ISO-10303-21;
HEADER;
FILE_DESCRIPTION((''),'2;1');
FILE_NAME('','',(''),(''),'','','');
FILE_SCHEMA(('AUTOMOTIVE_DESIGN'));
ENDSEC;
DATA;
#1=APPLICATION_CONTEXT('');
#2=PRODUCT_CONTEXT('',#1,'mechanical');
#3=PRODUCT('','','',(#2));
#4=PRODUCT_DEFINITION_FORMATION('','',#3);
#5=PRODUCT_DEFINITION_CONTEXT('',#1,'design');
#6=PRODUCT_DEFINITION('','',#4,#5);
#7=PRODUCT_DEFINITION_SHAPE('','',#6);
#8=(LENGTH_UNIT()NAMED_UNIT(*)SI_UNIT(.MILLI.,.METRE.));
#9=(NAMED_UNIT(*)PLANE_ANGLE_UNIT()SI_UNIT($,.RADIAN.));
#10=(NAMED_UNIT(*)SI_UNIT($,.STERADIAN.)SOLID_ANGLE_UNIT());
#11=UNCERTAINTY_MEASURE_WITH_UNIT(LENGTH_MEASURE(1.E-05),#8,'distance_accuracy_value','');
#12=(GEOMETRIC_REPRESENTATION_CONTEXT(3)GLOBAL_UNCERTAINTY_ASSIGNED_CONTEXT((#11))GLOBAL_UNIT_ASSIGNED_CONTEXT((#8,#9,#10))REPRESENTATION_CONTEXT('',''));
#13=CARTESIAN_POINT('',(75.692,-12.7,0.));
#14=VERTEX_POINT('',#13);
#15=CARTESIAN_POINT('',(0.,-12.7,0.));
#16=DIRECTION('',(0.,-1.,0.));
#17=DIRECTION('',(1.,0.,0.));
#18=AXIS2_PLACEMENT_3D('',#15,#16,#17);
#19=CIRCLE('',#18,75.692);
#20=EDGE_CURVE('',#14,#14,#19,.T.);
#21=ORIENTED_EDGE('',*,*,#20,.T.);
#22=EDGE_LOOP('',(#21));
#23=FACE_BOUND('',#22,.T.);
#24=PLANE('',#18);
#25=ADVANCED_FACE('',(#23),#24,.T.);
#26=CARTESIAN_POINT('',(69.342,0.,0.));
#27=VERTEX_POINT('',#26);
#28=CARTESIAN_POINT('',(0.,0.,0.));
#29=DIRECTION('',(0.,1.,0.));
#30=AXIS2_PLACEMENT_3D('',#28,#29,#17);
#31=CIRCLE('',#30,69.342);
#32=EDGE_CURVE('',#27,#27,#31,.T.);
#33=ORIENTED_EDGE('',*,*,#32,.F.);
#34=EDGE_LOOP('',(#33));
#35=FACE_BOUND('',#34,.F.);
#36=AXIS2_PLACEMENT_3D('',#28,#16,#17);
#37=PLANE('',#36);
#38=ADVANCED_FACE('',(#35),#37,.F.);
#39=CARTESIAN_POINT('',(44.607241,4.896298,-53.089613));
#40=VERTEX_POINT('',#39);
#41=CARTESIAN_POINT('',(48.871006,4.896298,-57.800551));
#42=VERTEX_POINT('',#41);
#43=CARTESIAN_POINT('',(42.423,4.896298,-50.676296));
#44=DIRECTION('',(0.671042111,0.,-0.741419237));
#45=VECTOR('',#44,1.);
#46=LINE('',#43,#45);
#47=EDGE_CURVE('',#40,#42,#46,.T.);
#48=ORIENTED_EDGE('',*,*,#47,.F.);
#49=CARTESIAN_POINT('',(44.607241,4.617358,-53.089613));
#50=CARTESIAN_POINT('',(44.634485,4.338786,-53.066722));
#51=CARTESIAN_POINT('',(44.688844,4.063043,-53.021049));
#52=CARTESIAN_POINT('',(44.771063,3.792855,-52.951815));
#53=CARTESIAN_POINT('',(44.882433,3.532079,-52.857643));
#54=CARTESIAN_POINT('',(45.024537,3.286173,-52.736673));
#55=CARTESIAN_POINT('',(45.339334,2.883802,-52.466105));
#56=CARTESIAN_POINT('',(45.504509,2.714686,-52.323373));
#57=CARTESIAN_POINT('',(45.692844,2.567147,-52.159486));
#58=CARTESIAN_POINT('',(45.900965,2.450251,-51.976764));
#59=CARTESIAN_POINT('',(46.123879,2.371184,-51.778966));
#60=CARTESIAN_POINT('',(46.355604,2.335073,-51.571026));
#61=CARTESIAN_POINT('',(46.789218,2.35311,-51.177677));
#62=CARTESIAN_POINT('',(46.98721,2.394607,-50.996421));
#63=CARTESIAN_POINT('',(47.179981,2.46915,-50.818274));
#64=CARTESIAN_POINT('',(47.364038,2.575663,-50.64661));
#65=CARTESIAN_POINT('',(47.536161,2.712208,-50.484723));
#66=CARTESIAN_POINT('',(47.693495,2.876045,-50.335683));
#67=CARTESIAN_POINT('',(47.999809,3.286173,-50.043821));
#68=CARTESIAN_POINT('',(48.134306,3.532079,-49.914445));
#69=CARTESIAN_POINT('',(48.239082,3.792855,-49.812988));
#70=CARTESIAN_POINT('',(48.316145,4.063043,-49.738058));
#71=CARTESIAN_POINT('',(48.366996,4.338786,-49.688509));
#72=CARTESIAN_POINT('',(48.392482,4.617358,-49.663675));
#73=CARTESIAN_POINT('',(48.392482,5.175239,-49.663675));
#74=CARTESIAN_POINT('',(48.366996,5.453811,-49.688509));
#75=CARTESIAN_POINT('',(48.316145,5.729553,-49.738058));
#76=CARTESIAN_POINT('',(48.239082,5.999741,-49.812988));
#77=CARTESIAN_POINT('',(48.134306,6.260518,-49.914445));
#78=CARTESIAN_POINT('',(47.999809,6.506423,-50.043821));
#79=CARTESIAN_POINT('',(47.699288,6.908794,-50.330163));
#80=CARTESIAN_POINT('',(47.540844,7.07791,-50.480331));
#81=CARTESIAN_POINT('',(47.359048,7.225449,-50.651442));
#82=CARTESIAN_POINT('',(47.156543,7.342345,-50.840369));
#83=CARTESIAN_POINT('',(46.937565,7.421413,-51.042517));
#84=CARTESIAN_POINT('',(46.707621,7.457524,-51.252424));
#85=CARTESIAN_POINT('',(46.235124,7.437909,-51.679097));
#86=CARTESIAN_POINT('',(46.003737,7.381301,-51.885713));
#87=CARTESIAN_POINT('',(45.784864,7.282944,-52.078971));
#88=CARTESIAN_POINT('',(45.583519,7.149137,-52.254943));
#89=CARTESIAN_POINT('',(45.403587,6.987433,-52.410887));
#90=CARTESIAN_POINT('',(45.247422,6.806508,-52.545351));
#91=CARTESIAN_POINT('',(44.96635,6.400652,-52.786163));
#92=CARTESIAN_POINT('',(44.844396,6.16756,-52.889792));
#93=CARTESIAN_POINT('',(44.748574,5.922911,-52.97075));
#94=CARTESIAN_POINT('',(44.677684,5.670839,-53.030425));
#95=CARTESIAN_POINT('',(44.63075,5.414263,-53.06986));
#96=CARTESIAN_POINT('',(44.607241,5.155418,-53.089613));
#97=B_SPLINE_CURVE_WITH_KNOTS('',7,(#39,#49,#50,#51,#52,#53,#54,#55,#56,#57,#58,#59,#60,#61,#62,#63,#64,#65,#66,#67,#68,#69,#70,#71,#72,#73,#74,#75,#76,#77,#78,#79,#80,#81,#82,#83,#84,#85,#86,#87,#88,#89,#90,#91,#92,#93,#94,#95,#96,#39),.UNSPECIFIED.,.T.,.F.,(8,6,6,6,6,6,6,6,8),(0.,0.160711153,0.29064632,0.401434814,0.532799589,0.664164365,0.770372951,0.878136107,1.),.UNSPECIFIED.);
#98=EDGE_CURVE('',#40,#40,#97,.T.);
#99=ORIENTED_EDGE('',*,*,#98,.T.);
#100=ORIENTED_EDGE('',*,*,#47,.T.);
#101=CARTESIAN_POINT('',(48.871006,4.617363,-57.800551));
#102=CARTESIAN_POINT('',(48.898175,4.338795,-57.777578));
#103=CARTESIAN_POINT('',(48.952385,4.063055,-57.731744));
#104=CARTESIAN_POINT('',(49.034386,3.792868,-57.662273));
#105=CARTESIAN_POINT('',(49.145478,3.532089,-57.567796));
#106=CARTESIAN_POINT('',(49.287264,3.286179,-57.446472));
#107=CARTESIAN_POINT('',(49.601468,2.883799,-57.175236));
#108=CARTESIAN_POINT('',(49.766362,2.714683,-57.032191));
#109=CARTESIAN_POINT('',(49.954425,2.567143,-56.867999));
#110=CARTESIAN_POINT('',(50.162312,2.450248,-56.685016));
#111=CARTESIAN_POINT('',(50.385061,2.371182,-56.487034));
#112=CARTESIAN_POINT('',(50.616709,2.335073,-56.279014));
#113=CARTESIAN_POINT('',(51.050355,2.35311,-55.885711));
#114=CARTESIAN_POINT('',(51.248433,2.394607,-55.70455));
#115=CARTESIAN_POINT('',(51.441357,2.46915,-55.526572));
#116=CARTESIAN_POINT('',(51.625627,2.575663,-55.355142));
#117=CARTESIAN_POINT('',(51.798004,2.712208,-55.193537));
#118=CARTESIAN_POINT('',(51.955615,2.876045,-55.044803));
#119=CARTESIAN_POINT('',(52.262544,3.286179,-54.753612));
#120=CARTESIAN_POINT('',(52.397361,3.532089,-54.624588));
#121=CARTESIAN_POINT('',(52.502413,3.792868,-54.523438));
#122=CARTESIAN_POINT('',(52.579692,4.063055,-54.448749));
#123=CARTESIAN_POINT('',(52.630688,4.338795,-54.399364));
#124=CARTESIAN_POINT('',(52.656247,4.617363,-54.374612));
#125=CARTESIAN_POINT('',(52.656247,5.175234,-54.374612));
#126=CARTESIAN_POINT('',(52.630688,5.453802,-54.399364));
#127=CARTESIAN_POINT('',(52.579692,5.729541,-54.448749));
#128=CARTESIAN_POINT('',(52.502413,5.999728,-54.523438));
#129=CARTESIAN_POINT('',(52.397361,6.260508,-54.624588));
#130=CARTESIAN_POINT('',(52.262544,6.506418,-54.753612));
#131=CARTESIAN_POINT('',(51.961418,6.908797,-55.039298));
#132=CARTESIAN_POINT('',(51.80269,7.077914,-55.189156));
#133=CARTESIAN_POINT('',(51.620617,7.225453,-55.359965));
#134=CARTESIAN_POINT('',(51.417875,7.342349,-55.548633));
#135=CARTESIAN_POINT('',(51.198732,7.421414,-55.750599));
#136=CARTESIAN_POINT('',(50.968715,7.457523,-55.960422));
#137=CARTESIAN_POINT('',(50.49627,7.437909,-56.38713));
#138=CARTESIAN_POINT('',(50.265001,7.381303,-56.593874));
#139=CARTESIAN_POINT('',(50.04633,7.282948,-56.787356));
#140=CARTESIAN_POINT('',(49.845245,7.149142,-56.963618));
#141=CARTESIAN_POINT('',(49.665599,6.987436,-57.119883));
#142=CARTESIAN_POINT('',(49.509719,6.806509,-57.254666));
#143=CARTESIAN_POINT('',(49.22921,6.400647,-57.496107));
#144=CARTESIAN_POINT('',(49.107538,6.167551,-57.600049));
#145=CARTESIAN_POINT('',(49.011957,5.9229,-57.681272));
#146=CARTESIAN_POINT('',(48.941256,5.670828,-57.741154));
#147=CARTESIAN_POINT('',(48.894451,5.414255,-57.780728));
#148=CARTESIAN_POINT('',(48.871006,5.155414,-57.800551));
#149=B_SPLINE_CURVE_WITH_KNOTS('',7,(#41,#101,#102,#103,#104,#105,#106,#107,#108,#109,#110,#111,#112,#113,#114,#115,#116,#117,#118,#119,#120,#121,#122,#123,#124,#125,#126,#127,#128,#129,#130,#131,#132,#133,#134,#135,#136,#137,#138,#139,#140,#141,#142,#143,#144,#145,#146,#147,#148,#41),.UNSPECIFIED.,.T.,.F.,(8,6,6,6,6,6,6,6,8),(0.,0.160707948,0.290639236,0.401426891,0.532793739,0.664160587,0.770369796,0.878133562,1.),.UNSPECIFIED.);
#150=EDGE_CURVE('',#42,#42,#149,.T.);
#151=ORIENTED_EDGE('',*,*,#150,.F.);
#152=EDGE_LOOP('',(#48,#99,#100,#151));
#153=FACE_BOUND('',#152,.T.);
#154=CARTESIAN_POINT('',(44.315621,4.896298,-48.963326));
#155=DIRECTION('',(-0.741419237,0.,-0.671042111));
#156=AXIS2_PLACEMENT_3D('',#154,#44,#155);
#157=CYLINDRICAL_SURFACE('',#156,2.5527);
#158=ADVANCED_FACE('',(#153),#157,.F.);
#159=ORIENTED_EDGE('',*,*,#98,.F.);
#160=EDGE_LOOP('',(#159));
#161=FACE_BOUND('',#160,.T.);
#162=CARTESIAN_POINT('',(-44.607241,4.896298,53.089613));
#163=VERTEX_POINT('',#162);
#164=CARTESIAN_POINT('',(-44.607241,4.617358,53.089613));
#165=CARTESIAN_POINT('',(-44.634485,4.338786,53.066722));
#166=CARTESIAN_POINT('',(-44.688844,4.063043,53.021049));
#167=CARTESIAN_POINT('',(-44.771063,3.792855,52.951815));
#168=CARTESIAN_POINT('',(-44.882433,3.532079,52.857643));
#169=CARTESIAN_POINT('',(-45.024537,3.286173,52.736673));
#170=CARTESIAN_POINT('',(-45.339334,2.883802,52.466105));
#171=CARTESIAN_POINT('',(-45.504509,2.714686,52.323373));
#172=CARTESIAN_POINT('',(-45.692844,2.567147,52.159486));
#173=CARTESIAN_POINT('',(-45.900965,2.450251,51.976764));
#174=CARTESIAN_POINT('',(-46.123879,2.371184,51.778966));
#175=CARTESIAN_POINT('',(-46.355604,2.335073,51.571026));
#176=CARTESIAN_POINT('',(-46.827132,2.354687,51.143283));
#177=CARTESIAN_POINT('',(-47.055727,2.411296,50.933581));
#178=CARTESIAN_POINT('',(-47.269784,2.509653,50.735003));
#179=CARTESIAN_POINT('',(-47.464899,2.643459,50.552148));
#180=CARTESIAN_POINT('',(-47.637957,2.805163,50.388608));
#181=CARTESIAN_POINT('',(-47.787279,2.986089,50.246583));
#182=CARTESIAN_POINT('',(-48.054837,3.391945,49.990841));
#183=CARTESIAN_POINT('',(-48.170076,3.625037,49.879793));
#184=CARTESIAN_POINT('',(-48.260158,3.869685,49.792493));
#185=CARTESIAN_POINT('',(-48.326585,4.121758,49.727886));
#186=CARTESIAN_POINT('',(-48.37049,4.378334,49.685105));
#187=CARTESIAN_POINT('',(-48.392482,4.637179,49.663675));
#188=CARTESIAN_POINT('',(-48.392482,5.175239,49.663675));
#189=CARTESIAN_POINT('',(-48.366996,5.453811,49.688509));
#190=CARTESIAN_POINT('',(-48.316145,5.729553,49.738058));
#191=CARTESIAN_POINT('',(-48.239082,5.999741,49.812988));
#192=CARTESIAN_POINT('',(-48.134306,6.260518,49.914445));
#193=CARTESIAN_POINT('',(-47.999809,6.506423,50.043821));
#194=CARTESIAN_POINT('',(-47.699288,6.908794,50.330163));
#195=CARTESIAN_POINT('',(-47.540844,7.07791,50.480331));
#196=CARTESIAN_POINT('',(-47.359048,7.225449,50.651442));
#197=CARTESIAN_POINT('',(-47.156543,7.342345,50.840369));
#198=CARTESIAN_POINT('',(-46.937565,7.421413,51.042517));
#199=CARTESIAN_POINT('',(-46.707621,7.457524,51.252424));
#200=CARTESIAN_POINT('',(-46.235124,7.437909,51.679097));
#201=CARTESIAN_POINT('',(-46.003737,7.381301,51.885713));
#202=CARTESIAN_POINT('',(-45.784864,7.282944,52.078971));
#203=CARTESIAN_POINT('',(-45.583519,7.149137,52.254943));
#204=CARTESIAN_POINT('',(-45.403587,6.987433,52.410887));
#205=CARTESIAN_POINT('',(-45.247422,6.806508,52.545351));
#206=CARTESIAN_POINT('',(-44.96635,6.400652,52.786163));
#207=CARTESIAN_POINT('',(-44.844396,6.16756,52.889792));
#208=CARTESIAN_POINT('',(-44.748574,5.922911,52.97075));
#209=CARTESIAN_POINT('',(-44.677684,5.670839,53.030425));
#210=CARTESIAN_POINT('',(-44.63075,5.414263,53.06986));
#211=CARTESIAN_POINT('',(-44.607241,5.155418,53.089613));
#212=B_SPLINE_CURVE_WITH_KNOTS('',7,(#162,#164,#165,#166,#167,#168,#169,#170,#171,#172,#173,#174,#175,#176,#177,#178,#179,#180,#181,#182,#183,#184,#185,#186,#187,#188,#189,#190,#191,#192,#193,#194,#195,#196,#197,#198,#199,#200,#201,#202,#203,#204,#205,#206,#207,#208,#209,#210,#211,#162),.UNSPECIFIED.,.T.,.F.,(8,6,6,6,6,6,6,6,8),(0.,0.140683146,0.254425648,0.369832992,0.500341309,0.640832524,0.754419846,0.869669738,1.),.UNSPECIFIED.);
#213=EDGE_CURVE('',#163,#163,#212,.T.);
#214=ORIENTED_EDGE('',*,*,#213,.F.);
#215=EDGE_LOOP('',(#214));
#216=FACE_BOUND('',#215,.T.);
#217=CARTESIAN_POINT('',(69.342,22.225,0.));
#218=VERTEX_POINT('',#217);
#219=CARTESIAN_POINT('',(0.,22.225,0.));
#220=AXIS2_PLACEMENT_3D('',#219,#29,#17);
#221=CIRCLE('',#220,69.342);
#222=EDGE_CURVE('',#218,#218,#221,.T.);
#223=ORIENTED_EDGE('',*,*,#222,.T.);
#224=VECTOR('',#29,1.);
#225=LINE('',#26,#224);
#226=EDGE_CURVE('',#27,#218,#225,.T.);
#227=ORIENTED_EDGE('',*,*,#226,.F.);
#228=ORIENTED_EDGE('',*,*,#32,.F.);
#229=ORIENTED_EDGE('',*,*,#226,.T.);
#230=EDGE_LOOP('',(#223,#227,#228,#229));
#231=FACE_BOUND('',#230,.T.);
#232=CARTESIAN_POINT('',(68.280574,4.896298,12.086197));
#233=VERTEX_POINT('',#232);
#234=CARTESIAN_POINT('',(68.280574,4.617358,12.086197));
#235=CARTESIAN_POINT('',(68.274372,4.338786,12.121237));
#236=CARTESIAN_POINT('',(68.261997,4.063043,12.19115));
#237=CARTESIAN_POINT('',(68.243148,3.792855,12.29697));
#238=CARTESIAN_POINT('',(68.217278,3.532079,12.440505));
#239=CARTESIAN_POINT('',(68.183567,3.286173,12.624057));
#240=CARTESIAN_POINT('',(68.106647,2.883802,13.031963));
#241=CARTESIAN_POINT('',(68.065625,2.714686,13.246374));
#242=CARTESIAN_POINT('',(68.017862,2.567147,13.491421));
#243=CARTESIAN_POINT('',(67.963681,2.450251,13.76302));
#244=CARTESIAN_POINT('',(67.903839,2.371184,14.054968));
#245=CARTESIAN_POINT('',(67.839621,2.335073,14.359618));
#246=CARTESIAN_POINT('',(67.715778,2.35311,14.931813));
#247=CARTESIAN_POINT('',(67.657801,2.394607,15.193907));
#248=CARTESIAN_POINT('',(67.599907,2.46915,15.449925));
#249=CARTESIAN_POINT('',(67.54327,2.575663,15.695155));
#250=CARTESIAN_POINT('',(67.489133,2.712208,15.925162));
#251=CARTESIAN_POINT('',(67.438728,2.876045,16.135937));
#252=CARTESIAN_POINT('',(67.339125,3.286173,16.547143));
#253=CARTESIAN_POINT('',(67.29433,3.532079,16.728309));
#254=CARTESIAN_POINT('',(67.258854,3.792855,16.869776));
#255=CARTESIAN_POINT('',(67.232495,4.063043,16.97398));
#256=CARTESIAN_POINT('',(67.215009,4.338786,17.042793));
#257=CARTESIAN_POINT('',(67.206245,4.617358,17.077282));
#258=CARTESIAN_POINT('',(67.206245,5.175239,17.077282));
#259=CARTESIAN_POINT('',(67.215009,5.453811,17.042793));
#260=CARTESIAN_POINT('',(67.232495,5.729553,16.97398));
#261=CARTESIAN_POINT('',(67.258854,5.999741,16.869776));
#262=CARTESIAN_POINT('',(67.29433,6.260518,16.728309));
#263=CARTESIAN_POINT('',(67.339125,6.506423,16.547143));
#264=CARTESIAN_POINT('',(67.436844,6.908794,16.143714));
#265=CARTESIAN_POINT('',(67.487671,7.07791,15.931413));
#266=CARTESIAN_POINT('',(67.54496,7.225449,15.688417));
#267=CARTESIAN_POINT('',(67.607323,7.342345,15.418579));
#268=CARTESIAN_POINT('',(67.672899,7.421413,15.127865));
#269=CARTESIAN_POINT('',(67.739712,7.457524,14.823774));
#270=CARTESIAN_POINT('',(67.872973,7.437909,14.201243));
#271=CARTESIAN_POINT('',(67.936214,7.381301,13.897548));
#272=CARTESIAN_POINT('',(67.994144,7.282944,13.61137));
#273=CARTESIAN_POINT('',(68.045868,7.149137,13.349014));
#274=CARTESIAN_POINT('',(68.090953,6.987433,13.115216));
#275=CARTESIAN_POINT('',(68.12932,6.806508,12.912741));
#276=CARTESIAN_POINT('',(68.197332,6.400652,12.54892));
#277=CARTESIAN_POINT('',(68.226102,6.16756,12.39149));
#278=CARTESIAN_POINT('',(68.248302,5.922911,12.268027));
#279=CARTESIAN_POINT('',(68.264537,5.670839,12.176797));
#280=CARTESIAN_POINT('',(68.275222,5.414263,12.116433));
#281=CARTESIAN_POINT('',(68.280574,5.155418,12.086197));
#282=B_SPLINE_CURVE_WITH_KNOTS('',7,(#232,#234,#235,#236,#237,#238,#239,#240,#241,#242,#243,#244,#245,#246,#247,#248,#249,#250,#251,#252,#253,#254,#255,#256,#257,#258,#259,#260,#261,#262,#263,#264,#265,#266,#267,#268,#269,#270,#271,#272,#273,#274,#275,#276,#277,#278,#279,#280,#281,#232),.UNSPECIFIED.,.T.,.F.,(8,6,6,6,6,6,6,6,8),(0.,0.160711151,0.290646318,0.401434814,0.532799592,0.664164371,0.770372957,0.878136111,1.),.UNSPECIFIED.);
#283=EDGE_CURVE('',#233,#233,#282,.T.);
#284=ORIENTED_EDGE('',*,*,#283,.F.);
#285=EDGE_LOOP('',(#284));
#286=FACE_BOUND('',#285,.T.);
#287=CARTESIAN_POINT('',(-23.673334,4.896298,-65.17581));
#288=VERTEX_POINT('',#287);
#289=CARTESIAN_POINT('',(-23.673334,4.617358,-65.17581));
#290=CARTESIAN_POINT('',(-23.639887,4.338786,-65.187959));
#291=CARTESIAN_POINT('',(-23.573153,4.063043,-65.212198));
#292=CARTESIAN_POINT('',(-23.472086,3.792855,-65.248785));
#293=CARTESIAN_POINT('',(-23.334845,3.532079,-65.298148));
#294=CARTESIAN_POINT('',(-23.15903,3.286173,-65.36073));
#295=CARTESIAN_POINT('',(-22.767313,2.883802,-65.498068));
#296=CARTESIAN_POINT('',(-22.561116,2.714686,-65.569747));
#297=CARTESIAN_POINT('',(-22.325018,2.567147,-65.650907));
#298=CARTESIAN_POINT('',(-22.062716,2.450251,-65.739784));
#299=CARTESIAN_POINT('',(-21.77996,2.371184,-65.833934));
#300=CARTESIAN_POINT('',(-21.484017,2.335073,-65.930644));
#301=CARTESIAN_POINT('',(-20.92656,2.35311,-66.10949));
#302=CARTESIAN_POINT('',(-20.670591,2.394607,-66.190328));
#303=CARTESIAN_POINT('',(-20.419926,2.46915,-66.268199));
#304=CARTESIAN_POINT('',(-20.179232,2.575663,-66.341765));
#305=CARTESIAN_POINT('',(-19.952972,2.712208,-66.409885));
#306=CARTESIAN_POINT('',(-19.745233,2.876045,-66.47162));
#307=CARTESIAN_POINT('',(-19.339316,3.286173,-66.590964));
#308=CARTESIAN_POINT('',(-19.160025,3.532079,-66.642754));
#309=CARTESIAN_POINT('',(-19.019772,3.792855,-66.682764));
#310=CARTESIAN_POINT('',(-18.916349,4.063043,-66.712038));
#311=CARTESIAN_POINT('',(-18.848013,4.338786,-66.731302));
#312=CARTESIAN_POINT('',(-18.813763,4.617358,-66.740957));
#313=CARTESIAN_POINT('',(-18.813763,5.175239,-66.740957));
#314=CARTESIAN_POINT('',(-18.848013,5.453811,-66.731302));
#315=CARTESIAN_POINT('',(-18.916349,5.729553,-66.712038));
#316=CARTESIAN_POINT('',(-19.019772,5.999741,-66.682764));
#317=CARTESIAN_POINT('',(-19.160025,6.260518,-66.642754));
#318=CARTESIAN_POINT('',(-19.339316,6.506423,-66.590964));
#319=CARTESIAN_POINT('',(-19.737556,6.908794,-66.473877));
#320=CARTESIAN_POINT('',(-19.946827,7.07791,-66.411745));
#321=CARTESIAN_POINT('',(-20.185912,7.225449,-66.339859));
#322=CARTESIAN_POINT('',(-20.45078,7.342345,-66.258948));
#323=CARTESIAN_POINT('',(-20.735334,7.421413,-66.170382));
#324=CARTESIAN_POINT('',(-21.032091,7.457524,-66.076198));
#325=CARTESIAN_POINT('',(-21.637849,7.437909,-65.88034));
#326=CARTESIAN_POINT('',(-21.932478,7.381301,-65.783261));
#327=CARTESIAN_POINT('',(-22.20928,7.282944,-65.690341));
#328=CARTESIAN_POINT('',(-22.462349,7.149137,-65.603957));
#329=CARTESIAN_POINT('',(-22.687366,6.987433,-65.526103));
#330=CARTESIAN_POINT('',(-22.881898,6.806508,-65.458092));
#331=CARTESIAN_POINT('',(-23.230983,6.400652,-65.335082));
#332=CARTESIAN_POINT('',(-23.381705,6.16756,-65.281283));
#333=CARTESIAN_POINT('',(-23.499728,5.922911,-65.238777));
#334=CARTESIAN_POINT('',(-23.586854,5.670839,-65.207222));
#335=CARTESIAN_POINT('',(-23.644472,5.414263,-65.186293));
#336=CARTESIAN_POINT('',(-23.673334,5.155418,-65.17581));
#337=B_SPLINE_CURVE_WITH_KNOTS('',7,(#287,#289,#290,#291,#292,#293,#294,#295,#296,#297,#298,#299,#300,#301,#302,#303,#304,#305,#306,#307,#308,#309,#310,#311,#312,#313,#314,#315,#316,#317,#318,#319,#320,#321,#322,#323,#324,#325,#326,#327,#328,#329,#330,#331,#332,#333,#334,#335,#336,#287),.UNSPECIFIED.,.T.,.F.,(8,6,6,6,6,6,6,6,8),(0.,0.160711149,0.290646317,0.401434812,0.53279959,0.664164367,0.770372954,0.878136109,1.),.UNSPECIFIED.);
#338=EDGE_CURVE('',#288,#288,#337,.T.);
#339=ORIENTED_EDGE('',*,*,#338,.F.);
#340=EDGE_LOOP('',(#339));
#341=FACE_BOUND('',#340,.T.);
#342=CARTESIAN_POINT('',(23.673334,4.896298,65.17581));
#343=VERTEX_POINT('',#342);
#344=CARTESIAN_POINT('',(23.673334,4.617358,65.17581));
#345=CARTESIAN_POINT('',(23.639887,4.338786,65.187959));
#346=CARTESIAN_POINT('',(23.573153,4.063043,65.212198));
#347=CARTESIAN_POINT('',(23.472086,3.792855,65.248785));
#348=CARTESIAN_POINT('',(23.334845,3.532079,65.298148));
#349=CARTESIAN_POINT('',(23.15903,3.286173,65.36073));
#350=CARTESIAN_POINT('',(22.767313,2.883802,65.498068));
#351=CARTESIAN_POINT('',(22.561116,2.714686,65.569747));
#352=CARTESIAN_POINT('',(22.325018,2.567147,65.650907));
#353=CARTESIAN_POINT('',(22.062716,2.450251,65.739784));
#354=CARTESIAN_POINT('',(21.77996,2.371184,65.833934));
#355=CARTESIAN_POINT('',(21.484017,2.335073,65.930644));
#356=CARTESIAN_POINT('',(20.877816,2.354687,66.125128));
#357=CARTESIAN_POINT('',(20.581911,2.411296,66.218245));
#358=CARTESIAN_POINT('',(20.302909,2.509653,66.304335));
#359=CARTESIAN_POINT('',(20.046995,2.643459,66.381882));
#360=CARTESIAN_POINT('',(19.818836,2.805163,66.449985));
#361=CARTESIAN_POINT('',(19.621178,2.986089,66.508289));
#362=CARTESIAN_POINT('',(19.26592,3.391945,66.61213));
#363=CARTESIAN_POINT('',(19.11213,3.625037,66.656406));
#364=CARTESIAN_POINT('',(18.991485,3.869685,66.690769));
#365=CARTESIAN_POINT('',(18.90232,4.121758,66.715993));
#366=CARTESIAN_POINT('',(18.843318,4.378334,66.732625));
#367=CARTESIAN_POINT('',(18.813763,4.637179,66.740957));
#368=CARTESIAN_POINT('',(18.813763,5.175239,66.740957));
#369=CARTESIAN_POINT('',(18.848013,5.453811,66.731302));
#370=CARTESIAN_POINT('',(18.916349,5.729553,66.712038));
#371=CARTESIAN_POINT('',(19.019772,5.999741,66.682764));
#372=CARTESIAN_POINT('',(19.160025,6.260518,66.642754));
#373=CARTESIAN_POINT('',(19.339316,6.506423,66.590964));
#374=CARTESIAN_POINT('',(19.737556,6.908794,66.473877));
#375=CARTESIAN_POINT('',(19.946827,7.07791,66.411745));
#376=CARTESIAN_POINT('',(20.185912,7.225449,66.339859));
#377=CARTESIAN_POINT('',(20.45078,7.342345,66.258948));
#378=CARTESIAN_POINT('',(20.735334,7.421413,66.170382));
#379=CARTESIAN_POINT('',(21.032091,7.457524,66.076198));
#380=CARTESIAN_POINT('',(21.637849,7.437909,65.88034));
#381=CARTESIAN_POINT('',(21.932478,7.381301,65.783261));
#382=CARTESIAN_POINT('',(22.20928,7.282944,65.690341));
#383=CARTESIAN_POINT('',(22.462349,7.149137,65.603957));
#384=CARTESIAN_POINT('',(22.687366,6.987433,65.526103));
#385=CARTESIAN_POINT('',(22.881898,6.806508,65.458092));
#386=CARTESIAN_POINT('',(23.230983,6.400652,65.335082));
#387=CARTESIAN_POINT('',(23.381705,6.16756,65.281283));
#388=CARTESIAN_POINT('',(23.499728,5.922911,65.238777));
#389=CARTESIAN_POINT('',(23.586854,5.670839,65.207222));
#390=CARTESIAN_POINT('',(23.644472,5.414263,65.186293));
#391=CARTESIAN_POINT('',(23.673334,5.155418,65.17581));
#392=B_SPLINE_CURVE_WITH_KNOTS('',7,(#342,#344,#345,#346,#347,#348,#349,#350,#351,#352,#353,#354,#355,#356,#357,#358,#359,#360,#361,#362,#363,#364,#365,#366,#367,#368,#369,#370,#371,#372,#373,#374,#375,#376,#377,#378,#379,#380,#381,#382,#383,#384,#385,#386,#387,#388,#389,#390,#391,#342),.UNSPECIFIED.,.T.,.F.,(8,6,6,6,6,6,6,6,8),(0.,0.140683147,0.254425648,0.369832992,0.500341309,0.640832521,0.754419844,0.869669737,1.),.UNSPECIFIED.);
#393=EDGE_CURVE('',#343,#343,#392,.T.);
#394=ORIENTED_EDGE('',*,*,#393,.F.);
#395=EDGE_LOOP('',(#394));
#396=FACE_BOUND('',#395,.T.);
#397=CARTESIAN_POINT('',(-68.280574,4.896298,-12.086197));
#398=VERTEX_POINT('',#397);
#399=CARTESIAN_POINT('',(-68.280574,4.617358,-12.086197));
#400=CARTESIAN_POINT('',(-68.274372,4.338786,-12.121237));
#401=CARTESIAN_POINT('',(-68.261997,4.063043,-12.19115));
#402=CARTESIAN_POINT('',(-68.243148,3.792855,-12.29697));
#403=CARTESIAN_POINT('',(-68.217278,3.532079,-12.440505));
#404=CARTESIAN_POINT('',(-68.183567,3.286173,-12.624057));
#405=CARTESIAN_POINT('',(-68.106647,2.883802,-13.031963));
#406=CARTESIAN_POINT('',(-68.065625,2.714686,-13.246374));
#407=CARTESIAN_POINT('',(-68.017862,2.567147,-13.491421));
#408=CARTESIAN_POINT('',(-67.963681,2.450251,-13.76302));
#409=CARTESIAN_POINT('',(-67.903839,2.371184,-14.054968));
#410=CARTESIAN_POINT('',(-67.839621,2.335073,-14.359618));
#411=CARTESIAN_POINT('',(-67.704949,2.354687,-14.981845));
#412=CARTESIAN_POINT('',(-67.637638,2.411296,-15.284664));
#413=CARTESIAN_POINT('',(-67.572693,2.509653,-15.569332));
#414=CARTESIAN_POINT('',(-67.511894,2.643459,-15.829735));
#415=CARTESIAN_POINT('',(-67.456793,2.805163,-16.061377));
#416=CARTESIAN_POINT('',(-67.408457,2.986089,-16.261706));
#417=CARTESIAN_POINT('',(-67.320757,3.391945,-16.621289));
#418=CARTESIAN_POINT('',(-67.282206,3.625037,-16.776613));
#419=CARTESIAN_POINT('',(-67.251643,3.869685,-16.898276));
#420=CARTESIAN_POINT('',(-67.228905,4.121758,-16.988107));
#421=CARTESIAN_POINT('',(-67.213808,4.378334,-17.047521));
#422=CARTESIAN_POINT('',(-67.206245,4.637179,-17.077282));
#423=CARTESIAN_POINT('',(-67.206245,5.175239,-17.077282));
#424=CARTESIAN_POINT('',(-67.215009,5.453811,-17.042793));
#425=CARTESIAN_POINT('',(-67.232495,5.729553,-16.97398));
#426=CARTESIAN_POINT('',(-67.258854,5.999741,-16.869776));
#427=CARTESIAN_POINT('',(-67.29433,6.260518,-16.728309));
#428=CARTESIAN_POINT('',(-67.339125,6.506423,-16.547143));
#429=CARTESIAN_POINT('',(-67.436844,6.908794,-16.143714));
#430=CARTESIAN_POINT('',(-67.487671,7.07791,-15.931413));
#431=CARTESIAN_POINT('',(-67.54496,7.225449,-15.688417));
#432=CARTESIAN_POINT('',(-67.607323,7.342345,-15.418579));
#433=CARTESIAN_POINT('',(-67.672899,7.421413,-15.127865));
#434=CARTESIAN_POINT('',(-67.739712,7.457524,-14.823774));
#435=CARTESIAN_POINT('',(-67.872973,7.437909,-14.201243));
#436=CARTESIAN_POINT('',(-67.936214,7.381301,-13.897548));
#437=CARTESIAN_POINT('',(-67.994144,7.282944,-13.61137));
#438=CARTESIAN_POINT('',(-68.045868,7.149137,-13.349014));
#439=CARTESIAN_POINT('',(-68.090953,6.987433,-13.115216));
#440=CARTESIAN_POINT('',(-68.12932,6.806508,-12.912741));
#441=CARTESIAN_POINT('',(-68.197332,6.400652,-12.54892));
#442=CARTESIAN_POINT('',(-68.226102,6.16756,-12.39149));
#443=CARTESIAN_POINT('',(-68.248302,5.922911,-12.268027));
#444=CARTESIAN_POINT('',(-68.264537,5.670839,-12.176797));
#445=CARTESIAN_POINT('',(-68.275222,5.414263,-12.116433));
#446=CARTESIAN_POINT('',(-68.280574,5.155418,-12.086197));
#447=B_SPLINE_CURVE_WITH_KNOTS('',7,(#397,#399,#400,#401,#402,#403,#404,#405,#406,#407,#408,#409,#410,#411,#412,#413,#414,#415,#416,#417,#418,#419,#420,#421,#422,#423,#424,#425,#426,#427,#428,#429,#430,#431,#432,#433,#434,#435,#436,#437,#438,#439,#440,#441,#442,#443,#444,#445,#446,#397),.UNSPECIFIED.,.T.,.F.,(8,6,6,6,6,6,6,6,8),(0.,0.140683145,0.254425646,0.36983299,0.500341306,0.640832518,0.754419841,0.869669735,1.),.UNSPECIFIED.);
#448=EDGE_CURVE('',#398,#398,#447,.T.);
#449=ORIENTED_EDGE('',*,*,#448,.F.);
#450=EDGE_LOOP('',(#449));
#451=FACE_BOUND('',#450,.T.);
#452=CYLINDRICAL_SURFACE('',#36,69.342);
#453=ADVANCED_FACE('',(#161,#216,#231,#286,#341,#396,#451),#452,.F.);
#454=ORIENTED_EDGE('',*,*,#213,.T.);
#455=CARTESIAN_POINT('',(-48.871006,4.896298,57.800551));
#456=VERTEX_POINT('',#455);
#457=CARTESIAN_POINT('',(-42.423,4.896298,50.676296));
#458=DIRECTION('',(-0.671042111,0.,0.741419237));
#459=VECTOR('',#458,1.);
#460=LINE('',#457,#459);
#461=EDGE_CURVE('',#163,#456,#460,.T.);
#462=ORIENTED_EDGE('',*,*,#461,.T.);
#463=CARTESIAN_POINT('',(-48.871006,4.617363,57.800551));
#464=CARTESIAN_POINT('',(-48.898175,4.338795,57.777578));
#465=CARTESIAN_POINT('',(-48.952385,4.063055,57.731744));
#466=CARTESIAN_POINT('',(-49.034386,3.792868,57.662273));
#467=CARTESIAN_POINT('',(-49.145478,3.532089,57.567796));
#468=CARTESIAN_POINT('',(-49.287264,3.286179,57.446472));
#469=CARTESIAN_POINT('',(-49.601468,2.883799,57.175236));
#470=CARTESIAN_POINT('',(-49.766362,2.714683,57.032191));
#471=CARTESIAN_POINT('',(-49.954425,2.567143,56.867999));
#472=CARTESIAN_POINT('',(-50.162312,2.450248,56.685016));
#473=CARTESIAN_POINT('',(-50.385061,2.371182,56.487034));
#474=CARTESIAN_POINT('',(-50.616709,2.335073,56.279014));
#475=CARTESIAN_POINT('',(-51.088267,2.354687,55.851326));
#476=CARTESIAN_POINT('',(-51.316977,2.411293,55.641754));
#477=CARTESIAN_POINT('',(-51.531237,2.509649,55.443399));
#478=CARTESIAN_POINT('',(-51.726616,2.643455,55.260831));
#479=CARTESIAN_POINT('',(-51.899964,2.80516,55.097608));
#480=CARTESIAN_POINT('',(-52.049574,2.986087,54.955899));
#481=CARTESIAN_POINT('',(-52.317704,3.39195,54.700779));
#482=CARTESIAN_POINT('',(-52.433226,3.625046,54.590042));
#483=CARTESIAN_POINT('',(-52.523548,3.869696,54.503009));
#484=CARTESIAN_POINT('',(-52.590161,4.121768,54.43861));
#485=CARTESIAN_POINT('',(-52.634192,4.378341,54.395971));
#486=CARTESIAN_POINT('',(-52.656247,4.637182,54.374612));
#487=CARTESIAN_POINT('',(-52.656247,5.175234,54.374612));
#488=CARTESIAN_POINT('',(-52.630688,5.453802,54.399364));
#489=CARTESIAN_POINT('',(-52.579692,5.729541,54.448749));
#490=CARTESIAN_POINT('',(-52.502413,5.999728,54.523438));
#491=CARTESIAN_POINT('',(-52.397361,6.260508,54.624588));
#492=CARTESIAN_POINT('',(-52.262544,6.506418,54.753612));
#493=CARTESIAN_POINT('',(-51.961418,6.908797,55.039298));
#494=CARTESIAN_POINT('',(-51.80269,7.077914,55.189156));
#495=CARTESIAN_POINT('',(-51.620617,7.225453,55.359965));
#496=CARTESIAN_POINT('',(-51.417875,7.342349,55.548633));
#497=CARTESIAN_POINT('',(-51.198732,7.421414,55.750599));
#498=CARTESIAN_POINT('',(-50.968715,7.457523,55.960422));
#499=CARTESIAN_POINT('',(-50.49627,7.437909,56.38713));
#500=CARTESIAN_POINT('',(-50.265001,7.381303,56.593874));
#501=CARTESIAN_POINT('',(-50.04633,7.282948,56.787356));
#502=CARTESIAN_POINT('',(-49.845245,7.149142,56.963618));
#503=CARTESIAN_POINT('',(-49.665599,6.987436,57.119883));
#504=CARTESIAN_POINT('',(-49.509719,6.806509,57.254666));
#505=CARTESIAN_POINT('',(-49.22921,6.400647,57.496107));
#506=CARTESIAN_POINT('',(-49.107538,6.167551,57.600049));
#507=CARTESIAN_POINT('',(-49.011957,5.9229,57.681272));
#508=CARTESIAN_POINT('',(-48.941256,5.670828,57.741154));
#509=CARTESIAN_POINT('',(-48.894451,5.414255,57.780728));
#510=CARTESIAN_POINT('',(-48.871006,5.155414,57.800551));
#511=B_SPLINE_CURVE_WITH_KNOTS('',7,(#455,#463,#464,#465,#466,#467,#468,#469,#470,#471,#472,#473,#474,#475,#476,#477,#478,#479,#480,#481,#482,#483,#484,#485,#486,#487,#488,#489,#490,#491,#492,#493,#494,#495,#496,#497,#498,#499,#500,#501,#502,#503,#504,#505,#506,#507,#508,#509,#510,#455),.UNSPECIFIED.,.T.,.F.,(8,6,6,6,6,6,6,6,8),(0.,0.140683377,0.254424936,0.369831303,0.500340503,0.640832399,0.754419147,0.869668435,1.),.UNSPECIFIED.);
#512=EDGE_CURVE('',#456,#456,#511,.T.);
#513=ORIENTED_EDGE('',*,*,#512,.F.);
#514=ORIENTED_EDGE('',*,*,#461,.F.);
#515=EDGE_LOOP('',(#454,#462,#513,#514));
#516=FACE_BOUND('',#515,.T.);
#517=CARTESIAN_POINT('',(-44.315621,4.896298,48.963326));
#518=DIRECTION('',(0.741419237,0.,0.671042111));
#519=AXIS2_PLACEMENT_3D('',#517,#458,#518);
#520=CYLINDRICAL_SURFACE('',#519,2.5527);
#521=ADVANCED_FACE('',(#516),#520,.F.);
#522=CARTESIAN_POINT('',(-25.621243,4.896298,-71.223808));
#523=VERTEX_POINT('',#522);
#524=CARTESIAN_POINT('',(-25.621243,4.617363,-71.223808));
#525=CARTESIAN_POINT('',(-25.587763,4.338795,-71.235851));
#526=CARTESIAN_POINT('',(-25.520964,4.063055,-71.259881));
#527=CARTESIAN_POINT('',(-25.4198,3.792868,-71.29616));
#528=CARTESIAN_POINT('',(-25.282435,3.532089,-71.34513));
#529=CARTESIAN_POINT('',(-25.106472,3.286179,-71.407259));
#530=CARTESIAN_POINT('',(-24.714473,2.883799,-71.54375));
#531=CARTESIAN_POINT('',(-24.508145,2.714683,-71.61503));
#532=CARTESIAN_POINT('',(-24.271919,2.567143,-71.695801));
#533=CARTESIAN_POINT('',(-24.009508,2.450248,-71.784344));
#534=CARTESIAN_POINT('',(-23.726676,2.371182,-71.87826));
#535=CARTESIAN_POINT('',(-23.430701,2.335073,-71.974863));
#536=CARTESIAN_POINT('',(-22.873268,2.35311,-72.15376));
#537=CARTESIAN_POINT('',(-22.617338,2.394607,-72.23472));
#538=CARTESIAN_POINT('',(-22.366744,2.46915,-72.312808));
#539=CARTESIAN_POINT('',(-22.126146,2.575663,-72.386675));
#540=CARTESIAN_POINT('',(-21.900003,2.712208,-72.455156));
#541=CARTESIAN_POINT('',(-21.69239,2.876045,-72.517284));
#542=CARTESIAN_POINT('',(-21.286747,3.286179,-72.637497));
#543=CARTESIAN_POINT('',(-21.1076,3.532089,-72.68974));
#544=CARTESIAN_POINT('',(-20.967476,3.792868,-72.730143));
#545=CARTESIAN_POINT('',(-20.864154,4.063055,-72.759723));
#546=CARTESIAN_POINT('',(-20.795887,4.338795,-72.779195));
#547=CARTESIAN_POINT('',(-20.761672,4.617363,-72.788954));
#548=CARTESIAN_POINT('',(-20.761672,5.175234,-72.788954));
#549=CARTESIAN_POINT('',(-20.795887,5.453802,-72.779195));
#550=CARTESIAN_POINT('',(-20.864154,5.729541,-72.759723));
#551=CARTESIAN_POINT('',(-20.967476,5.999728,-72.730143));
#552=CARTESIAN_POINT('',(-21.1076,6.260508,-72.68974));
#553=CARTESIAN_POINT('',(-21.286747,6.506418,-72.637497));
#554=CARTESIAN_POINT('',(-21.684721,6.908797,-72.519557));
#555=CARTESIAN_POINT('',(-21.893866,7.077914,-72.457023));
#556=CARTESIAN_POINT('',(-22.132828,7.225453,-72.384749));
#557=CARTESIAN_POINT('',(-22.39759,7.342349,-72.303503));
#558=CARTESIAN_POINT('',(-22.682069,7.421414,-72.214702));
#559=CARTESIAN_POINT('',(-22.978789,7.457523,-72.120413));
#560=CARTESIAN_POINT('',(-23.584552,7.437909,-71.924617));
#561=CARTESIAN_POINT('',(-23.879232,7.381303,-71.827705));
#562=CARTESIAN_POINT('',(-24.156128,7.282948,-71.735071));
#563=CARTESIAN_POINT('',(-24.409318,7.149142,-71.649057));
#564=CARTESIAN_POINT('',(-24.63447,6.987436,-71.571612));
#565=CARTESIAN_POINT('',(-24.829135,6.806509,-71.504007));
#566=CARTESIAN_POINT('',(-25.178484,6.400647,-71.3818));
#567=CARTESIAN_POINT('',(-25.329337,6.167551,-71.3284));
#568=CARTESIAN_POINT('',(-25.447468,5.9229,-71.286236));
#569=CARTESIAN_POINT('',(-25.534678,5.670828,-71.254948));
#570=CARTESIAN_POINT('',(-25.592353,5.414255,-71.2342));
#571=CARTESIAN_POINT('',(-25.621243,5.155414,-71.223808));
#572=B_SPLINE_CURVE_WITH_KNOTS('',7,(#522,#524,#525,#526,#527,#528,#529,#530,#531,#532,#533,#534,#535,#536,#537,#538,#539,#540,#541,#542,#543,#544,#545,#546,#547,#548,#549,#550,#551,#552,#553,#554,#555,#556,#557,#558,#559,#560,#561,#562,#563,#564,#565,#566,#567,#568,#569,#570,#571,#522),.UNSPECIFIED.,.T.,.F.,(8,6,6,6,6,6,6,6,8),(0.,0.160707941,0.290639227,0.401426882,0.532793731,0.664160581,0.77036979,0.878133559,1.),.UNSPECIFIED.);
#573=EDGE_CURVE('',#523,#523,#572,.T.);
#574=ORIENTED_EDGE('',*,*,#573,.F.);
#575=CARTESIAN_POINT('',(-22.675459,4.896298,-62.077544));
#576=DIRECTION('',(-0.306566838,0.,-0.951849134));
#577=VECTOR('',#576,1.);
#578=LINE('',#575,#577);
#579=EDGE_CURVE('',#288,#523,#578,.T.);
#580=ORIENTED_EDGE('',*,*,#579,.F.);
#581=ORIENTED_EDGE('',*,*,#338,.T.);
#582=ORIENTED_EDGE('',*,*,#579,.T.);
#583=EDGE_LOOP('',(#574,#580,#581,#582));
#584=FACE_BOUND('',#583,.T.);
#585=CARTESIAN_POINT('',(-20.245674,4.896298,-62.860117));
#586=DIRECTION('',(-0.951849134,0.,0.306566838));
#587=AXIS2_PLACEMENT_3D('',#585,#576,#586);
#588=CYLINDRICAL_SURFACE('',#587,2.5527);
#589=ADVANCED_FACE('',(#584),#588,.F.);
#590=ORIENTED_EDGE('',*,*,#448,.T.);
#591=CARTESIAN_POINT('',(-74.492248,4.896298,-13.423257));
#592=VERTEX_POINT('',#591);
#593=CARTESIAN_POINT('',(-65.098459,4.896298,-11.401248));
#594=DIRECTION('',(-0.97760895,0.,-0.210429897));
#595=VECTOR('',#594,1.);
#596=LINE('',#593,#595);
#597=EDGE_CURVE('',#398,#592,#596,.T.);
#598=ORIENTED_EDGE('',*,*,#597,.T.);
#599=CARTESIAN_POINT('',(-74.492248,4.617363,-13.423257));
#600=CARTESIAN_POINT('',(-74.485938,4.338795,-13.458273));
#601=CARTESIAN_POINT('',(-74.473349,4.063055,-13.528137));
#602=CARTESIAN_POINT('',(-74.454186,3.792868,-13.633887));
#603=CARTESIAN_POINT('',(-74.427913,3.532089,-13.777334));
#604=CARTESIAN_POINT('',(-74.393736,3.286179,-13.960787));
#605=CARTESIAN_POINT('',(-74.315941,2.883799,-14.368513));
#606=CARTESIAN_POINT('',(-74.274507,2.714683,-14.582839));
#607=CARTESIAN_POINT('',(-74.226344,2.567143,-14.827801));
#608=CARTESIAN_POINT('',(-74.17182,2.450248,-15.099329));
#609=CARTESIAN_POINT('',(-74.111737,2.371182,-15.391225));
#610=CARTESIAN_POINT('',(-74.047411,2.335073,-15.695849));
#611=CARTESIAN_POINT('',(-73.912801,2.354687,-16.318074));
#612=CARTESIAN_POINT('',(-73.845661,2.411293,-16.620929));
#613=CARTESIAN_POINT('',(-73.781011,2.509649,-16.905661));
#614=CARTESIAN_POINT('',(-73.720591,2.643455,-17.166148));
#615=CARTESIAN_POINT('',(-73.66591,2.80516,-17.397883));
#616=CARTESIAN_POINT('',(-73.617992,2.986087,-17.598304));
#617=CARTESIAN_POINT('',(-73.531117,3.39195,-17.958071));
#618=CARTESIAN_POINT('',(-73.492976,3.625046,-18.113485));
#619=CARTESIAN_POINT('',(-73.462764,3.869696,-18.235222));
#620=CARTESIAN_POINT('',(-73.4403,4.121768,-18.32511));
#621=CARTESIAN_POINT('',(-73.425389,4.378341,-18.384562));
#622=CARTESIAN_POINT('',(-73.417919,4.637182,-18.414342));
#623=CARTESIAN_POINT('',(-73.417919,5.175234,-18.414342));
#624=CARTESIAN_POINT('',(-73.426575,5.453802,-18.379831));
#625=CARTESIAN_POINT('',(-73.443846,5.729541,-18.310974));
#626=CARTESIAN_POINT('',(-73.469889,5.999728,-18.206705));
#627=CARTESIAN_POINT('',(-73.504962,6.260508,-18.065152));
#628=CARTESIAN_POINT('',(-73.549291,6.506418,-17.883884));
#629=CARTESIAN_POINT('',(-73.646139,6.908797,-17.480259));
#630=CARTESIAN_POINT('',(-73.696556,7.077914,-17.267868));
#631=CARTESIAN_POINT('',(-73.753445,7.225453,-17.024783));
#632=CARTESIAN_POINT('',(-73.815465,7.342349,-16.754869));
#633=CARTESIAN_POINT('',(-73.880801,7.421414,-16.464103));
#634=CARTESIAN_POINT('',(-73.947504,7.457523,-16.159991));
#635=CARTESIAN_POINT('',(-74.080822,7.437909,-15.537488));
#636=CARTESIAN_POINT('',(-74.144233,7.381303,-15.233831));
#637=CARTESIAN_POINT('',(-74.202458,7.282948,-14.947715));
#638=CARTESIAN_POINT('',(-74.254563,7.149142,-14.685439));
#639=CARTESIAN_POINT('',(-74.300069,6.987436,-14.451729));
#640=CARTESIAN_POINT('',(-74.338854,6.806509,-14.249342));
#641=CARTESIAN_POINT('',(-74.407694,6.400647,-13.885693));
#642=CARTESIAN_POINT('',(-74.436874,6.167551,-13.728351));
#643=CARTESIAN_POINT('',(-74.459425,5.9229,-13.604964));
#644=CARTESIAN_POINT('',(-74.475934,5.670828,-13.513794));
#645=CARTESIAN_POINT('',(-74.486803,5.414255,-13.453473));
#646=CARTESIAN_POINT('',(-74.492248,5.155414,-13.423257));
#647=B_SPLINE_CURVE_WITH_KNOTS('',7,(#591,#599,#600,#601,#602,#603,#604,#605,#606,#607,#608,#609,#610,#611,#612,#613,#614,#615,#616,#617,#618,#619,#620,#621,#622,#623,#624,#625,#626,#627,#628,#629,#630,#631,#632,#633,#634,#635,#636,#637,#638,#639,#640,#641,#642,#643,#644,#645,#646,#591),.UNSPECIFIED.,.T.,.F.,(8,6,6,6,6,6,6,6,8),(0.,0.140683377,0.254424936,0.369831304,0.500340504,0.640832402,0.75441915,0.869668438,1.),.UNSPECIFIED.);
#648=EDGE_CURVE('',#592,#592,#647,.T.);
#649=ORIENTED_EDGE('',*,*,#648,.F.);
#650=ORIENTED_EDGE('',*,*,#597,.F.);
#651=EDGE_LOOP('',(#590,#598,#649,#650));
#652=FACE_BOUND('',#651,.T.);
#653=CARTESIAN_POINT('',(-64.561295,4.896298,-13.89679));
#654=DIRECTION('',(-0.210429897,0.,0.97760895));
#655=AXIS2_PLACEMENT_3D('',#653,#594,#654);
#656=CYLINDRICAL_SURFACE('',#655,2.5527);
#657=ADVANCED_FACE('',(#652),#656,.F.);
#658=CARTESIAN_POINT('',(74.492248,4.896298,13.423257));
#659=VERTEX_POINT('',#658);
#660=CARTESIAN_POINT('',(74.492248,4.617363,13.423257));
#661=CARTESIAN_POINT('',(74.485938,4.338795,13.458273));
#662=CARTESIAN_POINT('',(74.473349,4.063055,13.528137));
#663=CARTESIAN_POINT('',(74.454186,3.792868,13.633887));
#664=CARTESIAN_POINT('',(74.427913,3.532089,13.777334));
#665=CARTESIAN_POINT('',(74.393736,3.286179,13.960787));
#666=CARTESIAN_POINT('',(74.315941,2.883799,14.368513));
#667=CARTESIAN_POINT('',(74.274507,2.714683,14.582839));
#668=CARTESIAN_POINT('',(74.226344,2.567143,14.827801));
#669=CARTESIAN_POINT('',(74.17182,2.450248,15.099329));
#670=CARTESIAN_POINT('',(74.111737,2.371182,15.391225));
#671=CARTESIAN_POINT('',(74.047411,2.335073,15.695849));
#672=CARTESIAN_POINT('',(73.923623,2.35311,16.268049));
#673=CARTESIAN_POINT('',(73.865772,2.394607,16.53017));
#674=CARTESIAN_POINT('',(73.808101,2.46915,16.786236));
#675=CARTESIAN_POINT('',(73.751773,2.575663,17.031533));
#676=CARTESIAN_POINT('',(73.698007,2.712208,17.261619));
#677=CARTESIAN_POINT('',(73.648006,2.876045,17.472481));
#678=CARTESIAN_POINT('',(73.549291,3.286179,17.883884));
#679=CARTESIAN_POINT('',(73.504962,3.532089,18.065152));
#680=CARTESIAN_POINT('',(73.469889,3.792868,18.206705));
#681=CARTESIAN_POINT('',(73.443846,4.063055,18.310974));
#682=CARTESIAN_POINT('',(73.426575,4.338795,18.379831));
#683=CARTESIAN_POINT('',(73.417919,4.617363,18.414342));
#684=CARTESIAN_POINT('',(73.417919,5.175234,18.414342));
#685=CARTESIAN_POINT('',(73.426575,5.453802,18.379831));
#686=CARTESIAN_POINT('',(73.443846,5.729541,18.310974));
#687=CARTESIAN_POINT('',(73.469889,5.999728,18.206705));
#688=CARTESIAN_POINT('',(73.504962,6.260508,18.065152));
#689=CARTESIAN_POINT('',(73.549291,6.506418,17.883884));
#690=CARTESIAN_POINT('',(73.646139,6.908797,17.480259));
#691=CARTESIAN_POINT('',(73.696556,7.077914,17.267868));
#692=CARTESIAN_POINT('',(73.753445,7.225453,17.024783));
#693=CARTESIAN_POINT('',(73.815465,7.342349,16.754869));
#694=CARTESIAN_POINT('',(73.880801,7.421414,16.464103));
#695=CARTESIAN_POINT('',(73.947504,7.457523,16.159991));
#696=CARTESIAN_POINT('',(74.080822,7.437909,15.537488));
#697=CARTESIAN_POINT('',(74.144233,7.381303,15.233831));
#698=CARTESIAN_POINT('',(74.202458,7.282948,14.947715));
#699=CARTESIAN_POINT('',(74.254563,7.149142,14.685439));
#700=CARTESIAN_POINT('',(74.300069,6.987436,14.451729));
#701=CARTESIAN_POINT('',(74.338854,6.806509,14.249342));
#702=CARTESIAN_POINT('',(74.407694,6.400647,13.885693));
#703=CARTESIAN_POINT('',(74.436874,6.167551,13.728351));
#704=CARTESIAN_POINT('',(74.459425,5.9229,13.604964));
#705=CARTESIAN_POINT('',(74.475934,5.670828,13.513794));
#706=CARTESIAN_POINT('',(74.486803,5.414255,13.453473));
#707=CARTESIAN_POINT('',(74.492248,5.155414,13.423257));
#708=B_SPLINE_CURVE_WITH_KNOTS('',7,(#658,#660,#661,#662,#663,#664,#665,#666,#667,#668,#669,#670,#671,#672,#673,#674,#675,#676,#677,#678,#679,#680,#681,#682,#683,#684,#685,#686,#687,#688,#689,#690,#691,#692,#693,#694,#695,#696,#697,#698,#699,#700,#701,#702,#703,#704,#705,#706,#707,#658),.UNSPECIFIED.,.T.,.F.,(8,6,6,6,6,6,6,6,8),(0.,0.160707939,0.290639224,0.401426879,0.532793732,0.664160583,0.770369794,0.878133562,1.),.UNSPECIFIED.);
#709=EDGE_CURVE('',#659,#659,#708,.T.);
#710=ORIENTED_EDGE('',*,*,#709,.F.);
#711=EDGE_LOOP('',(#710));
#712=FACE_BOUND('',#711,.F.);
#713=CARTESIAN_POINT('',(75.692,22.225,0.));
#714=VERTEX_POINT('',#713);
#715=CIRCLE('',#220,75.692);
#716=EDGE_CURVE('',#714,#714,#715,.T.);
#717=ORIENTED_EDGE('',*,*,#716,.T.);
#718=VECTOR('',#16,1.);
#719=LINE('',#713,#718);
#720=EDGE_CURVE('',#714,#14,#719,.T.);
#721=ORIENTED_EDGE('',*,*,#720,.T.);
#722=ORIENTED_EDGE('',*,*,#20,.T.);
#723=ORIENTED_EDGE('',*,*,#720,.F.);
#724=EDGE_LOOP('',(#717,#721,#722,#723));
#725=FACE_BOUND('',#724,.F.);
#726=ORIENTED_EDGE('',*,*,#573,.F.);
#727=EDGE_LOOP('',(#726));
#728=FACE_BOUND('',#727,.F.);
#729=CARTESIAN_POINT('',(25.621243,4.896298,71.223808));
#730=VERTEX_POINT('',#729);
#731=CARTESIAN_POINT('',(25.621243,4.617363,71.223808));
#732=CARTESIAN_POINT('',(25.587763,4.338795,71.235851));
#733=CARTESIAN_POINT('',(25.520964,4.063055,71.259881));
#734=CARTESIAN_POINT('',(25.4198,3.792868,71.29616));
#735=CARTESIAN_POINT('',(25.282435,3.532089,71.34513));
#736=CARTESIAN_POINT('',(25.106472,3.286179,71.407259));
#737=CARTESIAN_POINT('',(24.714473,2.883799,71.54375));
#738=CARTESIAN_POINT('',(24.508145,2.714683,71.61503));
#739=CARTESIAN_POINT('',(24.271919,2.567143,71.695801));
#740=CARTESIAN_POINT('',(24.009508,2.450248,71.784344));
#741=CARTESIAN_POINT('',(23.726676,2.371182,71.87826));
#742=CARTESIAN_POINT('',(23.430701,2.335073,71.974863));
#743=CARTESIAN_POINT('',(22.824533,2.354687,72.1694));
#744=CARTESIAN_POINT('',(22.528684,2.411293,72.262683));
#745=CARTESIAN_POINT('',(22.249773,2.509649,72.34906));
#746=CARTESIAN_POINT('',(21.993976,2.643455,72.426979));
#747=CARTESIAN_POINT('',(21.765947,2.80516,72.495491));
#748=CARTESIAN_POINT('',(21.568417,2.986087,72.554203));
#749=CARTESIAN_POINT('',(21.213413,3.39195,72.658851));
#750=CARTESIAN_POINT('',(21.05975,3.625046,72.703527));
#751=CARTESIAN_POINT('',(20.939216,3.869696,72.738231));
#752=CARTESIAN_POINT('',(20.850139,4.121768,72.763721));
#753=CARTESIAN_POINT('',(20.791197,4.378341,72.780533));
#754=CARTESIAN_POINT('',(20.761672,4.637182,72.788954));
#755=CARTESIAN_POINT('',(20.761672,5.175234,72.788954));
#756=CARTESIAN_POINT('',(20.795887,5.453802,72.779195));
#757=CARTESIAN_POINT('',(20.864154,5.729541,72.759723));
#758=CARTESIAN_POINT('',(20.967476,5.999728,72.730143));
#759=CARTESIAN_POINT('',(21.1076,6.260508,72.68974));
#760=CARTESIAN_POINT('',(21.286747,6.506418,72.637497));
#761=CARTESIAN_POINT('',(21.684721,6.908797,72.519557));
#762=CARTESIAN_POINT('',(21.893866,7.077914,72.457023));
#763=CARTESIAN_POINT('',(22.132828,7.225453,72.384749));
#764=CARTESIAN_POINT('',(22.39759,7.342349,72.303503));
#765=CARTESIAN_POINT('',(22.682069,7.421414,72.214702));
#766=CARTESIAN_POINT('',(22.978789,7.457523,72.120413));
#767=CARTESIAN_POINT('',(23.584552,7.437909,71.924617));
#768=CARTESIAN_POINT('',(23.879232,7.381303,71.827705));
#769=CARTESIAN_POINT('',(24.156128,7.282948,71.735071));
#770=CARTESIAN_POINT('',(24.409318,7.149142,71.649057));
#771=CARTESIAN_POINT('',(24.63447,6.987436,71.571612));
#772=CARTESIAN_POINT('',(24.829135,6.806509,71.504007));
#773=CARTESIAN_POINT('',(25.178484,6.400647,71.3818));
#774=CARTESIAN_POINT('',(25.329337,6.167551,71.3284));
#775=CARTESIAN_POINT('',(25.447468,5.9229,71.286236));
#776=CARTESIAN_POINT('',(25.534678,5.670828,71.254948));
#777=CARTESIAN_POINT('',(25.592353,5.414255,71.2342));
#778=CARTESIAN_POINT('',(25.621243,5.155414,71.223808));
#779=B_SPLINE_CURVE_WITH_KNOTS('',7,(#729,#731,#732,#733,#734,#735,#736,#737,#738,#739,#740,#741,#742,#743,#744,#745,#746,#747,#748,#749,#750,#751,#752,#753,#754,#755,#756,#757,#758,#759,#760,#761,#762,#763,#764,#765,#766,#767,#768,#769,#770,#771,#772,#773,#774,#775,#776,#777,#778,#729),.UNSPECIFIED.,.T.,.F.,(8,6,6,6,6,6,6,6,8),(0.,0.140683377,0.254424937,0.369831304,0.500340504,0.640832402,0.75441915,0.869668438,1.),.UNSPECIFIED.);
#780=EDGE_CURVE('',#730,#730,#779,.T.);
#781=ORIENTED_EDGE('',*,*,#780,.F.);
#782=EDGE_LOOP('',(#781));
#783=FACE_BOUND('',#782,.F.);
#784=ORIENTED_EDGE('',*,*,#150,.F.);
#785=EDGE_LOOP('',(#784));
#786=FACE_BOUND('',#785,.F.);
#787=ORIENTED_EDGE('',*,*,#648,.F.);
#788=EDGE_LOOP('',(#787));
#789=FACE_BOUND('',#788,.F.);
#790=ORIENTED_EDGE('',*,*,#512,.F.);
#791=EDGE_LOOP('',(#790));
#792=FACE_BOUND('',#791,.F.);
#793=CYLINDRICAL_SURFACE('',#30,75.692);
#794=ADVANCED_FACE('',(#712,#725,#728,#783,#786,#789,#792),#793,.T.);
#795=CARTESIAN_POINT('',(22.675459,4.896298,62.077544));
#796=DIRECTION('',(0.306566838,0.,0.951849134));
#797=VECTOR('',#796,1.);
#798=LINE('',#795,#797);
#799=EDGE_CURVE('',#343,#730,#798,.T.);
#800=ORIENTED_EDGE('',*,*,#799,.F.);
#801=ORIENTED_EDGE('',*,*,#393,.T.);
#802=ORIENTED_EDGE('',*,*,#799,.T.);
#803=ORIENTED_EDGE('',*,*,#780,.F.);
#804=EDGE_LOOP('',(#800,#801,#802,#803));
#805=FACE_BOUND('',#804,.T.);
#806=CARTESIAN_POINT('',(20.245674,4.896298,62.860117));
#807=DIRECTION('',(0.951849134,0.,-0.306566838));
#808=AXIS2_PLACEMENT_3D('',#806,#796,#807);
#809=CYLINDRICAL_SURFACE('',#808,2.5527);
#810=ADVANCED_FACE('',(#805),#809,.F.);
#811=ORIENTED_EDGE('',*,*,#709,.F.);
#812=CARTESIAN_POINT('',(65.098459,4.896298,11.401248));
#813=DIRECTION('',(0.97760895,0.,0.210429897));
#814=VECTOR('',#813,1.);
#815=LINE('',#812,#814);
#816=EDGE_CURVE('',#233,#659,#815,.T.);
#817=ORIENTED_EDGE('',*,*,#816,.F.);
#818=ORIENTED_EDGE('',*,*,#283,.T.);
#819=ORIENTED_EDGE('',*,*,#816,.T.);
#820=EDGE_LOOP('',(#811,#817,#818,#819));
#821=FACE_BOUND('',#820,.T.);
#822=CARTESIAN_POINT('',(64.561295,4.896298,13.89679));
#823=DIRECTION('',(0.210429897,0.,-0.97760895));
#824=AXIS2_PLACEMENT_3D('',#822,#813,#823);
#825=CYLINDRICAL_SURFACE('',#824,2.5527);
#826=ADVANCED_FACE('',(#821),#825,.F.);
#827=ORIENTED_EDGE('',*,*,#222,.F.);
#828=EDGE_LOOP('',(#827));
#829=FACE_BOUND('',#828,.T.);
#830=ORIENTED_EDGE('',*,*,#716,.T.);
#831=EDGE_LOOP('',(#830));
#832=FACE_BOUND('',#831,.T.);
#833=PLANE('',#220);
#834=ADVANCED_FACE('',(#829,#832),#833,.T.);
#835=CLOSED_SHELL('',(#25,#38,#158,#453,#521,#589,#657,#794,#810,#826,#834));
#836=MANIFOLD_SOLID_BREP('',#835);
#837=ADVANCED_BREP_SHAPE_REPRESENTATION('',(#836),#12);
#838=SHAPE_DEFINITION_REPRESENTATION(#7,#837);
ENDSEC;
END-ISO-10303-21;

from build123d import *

# Parameters (mm, degrees)
SKETCH1_R                            = 75.692
SKETCH1_R_2                          = 69.342
BOSS_EXTRUDE1_DEPTH                  = 22.225
SKETCH2_R                            = 75.692
BOSS_EXTRUDE2_DEPTH                  = 12.7
TAP_DRILL_FOR_1_4_20_TAP1_AT_2_COUNT = 2
TAP_DRILL_FOR_1_4_20_TAP1_AT_2_PITCH = 53.488399339
CIRPATTERN1_COUNT                    = 6


with BuildPart() as part:
    # Sketch1 → Boss-Extrude1 (new body)
    with BuildSketch(Plane(origin=(0, 0, 0), x_dir=(1, 0, 0), z_dir=(0, 1, 0))):
        Circle(SKETCH1_R)
        Circle(SKETCH1_R_2, mode=Mode.SUBTRACT)
    extrude(amount=BOSS_EXTRUDE1_DEPTH)

    # Sketch2 → Boss-Extrude2 (add)
    with BuildSketch(Plane.XZ):
        Circle(SKETCH2_R)
    extrude(amount=BOSS_EXTRUDE2_DEPTH)

    # Sketch4 → Tap Drill for 1/4-20 Tap1 (revolve, cut)
    with BuildSketch(Plane(origin=(73.997176623, 4.896298223, 15.927859738), x_dir=(0.210429897, 0, -0.97760895), z_dir=(0, 1, 0))):
        Polygon((0, 0), (0, 11.185816902), (2.5527, 9.652), (2.5527, 0), align=None)
    tap_drill_for_1_4_20_tap1 = revolve(axis=Axis((80.204993454, 4.896298223, 17.264089582), (-0.97760895, 0, -0.210429897)), mode=Mode.SUBTRACT)

    # Tap Drill for 1/4-20 Tap1 at 2: Tap Drill for 1/4-20 Tap1 ×2
    with Locations(*[Vector(-0.110438581, 0.851210999, 0.51307227) * (i * TAP_DRILL_FOR_1_4_20_TAP1_AT_2_PITCH) for i in range(1, TAP_DRILL_FOR_1_4_20_TAP1_AT_2_COUNT)]):
        add(tap_drill_for_1_4_20_tap1, mode=Mode.SUBTRACT)

    # CirPattern1: Tap Drill for 1/4-20 Tap1 ×6 about axis
    cirpattern1_axis = Axis((0, 22.225, 0), (0, -1, 0))
    for i in range(1, CIRPATTERN1_COUNT):
        add(tap_drill_for_1_4_20_tap1.rotate(cirpattern1_axis, i * 360 / CIRPATTERN1_COUNT), mode=Mode.SUBTRACT)

    # CirPattern1 copy 1 sketch → CirPattern1 copy 1 (revolve, cut)
    with BuildSketch(Plane(origin=(-3.515628412, 50.426212075, 80.653301416), x_dir=(0.951849134, 0, -0.306566839), z_dir=(0, 1, 0))):
        Polygon((0, 0), (0, 11.185816902), (2.5527, 9.652), (2.5527, 0), align=None)
    revolve(axis=Axis((-1.568928987, 50.426212075, 86.697543415), (-0.306566839, 0, -0.951849134)), mode=Mode.SUBTRACT)

    # CirPattern1 copy 2 sketch → CirPattern1 copy 2 (revolve, cut)
    with BuildSketch(Plane(origin=(-71.605622131, 50.426212075, 37.282027193), x_dir=(0.741419237, 0, 0.671042111), z_dir=(0, 1, 0))):
        Polygon((0, 0), (0, 11.185816902), (2.5527, 9.652), (2.5527, 0), align=None)
    revolve(axis=Axis((-75.866739537, 50.426212075, 41.990039348), (0.671042111, 0, -0.741419237)), mode=Mode.SUBTRACT)

    # CirPattern1 copy 3 sketch → CirPattern1 copy 3 (revolve, cut)
    with BuildSketch(Plane(origin=(-68.089993719, 50.426212075, -43.371274223), x_dir=(-0.210429897, 0, 0.97760895), z_dir=(0, 1, 0))):
        Polygon((0, 0), (0, 11.185816902), (2.5527, 9.652), (2.5527, 0), align=None)
    revolve(axis=Axis((-74.29781055, 50.426212075, -44.707504067), (0.97760895, 0, 0.210429897)), mode=Mode.SUBTRACT)

    # CirPattern1 copy 4 sketch → CirPattern1 copy 4 (revolve, cut)
    with BuildSketch(Plane(origin=(3.515628412, 50.426212075, -80.653301416), x_dir=(-0.951849134, 0, 0.306566839), z_dir=(0, 1, 0))):
        Polygon((0, 0), (0, 11.185816902), (2.5527, 9.652), (2.5527, 0), align=None)
    revolve(axis=Axis((1.568928987, 50.426212075, -86.697543415), (0.306566839, 0, 0.951849134)), mode=Mode.SUBTRACT)

    # CirPattern1 copy 5 sketch → CirPattern1 copy 5 (revolve, cut)
    with BuildSketch(Plane(origin=(71.605622131, 50.426212075, -37.282027193), x_dir=(-0.741419237, 0, -0.671042111), z_dir=(0, 1, 0))):
        Polygon((0, 0), (0, 11.185816902), (2.5527, 9.652), (2.5527, 0), align=None)
    revolve(axis=Axis((75.866739537, 50.426212075, -41.990039348), (-0.671042111, 0, 0.741419237)), mode=Mode.SUBTRACT)


solid = part.part
